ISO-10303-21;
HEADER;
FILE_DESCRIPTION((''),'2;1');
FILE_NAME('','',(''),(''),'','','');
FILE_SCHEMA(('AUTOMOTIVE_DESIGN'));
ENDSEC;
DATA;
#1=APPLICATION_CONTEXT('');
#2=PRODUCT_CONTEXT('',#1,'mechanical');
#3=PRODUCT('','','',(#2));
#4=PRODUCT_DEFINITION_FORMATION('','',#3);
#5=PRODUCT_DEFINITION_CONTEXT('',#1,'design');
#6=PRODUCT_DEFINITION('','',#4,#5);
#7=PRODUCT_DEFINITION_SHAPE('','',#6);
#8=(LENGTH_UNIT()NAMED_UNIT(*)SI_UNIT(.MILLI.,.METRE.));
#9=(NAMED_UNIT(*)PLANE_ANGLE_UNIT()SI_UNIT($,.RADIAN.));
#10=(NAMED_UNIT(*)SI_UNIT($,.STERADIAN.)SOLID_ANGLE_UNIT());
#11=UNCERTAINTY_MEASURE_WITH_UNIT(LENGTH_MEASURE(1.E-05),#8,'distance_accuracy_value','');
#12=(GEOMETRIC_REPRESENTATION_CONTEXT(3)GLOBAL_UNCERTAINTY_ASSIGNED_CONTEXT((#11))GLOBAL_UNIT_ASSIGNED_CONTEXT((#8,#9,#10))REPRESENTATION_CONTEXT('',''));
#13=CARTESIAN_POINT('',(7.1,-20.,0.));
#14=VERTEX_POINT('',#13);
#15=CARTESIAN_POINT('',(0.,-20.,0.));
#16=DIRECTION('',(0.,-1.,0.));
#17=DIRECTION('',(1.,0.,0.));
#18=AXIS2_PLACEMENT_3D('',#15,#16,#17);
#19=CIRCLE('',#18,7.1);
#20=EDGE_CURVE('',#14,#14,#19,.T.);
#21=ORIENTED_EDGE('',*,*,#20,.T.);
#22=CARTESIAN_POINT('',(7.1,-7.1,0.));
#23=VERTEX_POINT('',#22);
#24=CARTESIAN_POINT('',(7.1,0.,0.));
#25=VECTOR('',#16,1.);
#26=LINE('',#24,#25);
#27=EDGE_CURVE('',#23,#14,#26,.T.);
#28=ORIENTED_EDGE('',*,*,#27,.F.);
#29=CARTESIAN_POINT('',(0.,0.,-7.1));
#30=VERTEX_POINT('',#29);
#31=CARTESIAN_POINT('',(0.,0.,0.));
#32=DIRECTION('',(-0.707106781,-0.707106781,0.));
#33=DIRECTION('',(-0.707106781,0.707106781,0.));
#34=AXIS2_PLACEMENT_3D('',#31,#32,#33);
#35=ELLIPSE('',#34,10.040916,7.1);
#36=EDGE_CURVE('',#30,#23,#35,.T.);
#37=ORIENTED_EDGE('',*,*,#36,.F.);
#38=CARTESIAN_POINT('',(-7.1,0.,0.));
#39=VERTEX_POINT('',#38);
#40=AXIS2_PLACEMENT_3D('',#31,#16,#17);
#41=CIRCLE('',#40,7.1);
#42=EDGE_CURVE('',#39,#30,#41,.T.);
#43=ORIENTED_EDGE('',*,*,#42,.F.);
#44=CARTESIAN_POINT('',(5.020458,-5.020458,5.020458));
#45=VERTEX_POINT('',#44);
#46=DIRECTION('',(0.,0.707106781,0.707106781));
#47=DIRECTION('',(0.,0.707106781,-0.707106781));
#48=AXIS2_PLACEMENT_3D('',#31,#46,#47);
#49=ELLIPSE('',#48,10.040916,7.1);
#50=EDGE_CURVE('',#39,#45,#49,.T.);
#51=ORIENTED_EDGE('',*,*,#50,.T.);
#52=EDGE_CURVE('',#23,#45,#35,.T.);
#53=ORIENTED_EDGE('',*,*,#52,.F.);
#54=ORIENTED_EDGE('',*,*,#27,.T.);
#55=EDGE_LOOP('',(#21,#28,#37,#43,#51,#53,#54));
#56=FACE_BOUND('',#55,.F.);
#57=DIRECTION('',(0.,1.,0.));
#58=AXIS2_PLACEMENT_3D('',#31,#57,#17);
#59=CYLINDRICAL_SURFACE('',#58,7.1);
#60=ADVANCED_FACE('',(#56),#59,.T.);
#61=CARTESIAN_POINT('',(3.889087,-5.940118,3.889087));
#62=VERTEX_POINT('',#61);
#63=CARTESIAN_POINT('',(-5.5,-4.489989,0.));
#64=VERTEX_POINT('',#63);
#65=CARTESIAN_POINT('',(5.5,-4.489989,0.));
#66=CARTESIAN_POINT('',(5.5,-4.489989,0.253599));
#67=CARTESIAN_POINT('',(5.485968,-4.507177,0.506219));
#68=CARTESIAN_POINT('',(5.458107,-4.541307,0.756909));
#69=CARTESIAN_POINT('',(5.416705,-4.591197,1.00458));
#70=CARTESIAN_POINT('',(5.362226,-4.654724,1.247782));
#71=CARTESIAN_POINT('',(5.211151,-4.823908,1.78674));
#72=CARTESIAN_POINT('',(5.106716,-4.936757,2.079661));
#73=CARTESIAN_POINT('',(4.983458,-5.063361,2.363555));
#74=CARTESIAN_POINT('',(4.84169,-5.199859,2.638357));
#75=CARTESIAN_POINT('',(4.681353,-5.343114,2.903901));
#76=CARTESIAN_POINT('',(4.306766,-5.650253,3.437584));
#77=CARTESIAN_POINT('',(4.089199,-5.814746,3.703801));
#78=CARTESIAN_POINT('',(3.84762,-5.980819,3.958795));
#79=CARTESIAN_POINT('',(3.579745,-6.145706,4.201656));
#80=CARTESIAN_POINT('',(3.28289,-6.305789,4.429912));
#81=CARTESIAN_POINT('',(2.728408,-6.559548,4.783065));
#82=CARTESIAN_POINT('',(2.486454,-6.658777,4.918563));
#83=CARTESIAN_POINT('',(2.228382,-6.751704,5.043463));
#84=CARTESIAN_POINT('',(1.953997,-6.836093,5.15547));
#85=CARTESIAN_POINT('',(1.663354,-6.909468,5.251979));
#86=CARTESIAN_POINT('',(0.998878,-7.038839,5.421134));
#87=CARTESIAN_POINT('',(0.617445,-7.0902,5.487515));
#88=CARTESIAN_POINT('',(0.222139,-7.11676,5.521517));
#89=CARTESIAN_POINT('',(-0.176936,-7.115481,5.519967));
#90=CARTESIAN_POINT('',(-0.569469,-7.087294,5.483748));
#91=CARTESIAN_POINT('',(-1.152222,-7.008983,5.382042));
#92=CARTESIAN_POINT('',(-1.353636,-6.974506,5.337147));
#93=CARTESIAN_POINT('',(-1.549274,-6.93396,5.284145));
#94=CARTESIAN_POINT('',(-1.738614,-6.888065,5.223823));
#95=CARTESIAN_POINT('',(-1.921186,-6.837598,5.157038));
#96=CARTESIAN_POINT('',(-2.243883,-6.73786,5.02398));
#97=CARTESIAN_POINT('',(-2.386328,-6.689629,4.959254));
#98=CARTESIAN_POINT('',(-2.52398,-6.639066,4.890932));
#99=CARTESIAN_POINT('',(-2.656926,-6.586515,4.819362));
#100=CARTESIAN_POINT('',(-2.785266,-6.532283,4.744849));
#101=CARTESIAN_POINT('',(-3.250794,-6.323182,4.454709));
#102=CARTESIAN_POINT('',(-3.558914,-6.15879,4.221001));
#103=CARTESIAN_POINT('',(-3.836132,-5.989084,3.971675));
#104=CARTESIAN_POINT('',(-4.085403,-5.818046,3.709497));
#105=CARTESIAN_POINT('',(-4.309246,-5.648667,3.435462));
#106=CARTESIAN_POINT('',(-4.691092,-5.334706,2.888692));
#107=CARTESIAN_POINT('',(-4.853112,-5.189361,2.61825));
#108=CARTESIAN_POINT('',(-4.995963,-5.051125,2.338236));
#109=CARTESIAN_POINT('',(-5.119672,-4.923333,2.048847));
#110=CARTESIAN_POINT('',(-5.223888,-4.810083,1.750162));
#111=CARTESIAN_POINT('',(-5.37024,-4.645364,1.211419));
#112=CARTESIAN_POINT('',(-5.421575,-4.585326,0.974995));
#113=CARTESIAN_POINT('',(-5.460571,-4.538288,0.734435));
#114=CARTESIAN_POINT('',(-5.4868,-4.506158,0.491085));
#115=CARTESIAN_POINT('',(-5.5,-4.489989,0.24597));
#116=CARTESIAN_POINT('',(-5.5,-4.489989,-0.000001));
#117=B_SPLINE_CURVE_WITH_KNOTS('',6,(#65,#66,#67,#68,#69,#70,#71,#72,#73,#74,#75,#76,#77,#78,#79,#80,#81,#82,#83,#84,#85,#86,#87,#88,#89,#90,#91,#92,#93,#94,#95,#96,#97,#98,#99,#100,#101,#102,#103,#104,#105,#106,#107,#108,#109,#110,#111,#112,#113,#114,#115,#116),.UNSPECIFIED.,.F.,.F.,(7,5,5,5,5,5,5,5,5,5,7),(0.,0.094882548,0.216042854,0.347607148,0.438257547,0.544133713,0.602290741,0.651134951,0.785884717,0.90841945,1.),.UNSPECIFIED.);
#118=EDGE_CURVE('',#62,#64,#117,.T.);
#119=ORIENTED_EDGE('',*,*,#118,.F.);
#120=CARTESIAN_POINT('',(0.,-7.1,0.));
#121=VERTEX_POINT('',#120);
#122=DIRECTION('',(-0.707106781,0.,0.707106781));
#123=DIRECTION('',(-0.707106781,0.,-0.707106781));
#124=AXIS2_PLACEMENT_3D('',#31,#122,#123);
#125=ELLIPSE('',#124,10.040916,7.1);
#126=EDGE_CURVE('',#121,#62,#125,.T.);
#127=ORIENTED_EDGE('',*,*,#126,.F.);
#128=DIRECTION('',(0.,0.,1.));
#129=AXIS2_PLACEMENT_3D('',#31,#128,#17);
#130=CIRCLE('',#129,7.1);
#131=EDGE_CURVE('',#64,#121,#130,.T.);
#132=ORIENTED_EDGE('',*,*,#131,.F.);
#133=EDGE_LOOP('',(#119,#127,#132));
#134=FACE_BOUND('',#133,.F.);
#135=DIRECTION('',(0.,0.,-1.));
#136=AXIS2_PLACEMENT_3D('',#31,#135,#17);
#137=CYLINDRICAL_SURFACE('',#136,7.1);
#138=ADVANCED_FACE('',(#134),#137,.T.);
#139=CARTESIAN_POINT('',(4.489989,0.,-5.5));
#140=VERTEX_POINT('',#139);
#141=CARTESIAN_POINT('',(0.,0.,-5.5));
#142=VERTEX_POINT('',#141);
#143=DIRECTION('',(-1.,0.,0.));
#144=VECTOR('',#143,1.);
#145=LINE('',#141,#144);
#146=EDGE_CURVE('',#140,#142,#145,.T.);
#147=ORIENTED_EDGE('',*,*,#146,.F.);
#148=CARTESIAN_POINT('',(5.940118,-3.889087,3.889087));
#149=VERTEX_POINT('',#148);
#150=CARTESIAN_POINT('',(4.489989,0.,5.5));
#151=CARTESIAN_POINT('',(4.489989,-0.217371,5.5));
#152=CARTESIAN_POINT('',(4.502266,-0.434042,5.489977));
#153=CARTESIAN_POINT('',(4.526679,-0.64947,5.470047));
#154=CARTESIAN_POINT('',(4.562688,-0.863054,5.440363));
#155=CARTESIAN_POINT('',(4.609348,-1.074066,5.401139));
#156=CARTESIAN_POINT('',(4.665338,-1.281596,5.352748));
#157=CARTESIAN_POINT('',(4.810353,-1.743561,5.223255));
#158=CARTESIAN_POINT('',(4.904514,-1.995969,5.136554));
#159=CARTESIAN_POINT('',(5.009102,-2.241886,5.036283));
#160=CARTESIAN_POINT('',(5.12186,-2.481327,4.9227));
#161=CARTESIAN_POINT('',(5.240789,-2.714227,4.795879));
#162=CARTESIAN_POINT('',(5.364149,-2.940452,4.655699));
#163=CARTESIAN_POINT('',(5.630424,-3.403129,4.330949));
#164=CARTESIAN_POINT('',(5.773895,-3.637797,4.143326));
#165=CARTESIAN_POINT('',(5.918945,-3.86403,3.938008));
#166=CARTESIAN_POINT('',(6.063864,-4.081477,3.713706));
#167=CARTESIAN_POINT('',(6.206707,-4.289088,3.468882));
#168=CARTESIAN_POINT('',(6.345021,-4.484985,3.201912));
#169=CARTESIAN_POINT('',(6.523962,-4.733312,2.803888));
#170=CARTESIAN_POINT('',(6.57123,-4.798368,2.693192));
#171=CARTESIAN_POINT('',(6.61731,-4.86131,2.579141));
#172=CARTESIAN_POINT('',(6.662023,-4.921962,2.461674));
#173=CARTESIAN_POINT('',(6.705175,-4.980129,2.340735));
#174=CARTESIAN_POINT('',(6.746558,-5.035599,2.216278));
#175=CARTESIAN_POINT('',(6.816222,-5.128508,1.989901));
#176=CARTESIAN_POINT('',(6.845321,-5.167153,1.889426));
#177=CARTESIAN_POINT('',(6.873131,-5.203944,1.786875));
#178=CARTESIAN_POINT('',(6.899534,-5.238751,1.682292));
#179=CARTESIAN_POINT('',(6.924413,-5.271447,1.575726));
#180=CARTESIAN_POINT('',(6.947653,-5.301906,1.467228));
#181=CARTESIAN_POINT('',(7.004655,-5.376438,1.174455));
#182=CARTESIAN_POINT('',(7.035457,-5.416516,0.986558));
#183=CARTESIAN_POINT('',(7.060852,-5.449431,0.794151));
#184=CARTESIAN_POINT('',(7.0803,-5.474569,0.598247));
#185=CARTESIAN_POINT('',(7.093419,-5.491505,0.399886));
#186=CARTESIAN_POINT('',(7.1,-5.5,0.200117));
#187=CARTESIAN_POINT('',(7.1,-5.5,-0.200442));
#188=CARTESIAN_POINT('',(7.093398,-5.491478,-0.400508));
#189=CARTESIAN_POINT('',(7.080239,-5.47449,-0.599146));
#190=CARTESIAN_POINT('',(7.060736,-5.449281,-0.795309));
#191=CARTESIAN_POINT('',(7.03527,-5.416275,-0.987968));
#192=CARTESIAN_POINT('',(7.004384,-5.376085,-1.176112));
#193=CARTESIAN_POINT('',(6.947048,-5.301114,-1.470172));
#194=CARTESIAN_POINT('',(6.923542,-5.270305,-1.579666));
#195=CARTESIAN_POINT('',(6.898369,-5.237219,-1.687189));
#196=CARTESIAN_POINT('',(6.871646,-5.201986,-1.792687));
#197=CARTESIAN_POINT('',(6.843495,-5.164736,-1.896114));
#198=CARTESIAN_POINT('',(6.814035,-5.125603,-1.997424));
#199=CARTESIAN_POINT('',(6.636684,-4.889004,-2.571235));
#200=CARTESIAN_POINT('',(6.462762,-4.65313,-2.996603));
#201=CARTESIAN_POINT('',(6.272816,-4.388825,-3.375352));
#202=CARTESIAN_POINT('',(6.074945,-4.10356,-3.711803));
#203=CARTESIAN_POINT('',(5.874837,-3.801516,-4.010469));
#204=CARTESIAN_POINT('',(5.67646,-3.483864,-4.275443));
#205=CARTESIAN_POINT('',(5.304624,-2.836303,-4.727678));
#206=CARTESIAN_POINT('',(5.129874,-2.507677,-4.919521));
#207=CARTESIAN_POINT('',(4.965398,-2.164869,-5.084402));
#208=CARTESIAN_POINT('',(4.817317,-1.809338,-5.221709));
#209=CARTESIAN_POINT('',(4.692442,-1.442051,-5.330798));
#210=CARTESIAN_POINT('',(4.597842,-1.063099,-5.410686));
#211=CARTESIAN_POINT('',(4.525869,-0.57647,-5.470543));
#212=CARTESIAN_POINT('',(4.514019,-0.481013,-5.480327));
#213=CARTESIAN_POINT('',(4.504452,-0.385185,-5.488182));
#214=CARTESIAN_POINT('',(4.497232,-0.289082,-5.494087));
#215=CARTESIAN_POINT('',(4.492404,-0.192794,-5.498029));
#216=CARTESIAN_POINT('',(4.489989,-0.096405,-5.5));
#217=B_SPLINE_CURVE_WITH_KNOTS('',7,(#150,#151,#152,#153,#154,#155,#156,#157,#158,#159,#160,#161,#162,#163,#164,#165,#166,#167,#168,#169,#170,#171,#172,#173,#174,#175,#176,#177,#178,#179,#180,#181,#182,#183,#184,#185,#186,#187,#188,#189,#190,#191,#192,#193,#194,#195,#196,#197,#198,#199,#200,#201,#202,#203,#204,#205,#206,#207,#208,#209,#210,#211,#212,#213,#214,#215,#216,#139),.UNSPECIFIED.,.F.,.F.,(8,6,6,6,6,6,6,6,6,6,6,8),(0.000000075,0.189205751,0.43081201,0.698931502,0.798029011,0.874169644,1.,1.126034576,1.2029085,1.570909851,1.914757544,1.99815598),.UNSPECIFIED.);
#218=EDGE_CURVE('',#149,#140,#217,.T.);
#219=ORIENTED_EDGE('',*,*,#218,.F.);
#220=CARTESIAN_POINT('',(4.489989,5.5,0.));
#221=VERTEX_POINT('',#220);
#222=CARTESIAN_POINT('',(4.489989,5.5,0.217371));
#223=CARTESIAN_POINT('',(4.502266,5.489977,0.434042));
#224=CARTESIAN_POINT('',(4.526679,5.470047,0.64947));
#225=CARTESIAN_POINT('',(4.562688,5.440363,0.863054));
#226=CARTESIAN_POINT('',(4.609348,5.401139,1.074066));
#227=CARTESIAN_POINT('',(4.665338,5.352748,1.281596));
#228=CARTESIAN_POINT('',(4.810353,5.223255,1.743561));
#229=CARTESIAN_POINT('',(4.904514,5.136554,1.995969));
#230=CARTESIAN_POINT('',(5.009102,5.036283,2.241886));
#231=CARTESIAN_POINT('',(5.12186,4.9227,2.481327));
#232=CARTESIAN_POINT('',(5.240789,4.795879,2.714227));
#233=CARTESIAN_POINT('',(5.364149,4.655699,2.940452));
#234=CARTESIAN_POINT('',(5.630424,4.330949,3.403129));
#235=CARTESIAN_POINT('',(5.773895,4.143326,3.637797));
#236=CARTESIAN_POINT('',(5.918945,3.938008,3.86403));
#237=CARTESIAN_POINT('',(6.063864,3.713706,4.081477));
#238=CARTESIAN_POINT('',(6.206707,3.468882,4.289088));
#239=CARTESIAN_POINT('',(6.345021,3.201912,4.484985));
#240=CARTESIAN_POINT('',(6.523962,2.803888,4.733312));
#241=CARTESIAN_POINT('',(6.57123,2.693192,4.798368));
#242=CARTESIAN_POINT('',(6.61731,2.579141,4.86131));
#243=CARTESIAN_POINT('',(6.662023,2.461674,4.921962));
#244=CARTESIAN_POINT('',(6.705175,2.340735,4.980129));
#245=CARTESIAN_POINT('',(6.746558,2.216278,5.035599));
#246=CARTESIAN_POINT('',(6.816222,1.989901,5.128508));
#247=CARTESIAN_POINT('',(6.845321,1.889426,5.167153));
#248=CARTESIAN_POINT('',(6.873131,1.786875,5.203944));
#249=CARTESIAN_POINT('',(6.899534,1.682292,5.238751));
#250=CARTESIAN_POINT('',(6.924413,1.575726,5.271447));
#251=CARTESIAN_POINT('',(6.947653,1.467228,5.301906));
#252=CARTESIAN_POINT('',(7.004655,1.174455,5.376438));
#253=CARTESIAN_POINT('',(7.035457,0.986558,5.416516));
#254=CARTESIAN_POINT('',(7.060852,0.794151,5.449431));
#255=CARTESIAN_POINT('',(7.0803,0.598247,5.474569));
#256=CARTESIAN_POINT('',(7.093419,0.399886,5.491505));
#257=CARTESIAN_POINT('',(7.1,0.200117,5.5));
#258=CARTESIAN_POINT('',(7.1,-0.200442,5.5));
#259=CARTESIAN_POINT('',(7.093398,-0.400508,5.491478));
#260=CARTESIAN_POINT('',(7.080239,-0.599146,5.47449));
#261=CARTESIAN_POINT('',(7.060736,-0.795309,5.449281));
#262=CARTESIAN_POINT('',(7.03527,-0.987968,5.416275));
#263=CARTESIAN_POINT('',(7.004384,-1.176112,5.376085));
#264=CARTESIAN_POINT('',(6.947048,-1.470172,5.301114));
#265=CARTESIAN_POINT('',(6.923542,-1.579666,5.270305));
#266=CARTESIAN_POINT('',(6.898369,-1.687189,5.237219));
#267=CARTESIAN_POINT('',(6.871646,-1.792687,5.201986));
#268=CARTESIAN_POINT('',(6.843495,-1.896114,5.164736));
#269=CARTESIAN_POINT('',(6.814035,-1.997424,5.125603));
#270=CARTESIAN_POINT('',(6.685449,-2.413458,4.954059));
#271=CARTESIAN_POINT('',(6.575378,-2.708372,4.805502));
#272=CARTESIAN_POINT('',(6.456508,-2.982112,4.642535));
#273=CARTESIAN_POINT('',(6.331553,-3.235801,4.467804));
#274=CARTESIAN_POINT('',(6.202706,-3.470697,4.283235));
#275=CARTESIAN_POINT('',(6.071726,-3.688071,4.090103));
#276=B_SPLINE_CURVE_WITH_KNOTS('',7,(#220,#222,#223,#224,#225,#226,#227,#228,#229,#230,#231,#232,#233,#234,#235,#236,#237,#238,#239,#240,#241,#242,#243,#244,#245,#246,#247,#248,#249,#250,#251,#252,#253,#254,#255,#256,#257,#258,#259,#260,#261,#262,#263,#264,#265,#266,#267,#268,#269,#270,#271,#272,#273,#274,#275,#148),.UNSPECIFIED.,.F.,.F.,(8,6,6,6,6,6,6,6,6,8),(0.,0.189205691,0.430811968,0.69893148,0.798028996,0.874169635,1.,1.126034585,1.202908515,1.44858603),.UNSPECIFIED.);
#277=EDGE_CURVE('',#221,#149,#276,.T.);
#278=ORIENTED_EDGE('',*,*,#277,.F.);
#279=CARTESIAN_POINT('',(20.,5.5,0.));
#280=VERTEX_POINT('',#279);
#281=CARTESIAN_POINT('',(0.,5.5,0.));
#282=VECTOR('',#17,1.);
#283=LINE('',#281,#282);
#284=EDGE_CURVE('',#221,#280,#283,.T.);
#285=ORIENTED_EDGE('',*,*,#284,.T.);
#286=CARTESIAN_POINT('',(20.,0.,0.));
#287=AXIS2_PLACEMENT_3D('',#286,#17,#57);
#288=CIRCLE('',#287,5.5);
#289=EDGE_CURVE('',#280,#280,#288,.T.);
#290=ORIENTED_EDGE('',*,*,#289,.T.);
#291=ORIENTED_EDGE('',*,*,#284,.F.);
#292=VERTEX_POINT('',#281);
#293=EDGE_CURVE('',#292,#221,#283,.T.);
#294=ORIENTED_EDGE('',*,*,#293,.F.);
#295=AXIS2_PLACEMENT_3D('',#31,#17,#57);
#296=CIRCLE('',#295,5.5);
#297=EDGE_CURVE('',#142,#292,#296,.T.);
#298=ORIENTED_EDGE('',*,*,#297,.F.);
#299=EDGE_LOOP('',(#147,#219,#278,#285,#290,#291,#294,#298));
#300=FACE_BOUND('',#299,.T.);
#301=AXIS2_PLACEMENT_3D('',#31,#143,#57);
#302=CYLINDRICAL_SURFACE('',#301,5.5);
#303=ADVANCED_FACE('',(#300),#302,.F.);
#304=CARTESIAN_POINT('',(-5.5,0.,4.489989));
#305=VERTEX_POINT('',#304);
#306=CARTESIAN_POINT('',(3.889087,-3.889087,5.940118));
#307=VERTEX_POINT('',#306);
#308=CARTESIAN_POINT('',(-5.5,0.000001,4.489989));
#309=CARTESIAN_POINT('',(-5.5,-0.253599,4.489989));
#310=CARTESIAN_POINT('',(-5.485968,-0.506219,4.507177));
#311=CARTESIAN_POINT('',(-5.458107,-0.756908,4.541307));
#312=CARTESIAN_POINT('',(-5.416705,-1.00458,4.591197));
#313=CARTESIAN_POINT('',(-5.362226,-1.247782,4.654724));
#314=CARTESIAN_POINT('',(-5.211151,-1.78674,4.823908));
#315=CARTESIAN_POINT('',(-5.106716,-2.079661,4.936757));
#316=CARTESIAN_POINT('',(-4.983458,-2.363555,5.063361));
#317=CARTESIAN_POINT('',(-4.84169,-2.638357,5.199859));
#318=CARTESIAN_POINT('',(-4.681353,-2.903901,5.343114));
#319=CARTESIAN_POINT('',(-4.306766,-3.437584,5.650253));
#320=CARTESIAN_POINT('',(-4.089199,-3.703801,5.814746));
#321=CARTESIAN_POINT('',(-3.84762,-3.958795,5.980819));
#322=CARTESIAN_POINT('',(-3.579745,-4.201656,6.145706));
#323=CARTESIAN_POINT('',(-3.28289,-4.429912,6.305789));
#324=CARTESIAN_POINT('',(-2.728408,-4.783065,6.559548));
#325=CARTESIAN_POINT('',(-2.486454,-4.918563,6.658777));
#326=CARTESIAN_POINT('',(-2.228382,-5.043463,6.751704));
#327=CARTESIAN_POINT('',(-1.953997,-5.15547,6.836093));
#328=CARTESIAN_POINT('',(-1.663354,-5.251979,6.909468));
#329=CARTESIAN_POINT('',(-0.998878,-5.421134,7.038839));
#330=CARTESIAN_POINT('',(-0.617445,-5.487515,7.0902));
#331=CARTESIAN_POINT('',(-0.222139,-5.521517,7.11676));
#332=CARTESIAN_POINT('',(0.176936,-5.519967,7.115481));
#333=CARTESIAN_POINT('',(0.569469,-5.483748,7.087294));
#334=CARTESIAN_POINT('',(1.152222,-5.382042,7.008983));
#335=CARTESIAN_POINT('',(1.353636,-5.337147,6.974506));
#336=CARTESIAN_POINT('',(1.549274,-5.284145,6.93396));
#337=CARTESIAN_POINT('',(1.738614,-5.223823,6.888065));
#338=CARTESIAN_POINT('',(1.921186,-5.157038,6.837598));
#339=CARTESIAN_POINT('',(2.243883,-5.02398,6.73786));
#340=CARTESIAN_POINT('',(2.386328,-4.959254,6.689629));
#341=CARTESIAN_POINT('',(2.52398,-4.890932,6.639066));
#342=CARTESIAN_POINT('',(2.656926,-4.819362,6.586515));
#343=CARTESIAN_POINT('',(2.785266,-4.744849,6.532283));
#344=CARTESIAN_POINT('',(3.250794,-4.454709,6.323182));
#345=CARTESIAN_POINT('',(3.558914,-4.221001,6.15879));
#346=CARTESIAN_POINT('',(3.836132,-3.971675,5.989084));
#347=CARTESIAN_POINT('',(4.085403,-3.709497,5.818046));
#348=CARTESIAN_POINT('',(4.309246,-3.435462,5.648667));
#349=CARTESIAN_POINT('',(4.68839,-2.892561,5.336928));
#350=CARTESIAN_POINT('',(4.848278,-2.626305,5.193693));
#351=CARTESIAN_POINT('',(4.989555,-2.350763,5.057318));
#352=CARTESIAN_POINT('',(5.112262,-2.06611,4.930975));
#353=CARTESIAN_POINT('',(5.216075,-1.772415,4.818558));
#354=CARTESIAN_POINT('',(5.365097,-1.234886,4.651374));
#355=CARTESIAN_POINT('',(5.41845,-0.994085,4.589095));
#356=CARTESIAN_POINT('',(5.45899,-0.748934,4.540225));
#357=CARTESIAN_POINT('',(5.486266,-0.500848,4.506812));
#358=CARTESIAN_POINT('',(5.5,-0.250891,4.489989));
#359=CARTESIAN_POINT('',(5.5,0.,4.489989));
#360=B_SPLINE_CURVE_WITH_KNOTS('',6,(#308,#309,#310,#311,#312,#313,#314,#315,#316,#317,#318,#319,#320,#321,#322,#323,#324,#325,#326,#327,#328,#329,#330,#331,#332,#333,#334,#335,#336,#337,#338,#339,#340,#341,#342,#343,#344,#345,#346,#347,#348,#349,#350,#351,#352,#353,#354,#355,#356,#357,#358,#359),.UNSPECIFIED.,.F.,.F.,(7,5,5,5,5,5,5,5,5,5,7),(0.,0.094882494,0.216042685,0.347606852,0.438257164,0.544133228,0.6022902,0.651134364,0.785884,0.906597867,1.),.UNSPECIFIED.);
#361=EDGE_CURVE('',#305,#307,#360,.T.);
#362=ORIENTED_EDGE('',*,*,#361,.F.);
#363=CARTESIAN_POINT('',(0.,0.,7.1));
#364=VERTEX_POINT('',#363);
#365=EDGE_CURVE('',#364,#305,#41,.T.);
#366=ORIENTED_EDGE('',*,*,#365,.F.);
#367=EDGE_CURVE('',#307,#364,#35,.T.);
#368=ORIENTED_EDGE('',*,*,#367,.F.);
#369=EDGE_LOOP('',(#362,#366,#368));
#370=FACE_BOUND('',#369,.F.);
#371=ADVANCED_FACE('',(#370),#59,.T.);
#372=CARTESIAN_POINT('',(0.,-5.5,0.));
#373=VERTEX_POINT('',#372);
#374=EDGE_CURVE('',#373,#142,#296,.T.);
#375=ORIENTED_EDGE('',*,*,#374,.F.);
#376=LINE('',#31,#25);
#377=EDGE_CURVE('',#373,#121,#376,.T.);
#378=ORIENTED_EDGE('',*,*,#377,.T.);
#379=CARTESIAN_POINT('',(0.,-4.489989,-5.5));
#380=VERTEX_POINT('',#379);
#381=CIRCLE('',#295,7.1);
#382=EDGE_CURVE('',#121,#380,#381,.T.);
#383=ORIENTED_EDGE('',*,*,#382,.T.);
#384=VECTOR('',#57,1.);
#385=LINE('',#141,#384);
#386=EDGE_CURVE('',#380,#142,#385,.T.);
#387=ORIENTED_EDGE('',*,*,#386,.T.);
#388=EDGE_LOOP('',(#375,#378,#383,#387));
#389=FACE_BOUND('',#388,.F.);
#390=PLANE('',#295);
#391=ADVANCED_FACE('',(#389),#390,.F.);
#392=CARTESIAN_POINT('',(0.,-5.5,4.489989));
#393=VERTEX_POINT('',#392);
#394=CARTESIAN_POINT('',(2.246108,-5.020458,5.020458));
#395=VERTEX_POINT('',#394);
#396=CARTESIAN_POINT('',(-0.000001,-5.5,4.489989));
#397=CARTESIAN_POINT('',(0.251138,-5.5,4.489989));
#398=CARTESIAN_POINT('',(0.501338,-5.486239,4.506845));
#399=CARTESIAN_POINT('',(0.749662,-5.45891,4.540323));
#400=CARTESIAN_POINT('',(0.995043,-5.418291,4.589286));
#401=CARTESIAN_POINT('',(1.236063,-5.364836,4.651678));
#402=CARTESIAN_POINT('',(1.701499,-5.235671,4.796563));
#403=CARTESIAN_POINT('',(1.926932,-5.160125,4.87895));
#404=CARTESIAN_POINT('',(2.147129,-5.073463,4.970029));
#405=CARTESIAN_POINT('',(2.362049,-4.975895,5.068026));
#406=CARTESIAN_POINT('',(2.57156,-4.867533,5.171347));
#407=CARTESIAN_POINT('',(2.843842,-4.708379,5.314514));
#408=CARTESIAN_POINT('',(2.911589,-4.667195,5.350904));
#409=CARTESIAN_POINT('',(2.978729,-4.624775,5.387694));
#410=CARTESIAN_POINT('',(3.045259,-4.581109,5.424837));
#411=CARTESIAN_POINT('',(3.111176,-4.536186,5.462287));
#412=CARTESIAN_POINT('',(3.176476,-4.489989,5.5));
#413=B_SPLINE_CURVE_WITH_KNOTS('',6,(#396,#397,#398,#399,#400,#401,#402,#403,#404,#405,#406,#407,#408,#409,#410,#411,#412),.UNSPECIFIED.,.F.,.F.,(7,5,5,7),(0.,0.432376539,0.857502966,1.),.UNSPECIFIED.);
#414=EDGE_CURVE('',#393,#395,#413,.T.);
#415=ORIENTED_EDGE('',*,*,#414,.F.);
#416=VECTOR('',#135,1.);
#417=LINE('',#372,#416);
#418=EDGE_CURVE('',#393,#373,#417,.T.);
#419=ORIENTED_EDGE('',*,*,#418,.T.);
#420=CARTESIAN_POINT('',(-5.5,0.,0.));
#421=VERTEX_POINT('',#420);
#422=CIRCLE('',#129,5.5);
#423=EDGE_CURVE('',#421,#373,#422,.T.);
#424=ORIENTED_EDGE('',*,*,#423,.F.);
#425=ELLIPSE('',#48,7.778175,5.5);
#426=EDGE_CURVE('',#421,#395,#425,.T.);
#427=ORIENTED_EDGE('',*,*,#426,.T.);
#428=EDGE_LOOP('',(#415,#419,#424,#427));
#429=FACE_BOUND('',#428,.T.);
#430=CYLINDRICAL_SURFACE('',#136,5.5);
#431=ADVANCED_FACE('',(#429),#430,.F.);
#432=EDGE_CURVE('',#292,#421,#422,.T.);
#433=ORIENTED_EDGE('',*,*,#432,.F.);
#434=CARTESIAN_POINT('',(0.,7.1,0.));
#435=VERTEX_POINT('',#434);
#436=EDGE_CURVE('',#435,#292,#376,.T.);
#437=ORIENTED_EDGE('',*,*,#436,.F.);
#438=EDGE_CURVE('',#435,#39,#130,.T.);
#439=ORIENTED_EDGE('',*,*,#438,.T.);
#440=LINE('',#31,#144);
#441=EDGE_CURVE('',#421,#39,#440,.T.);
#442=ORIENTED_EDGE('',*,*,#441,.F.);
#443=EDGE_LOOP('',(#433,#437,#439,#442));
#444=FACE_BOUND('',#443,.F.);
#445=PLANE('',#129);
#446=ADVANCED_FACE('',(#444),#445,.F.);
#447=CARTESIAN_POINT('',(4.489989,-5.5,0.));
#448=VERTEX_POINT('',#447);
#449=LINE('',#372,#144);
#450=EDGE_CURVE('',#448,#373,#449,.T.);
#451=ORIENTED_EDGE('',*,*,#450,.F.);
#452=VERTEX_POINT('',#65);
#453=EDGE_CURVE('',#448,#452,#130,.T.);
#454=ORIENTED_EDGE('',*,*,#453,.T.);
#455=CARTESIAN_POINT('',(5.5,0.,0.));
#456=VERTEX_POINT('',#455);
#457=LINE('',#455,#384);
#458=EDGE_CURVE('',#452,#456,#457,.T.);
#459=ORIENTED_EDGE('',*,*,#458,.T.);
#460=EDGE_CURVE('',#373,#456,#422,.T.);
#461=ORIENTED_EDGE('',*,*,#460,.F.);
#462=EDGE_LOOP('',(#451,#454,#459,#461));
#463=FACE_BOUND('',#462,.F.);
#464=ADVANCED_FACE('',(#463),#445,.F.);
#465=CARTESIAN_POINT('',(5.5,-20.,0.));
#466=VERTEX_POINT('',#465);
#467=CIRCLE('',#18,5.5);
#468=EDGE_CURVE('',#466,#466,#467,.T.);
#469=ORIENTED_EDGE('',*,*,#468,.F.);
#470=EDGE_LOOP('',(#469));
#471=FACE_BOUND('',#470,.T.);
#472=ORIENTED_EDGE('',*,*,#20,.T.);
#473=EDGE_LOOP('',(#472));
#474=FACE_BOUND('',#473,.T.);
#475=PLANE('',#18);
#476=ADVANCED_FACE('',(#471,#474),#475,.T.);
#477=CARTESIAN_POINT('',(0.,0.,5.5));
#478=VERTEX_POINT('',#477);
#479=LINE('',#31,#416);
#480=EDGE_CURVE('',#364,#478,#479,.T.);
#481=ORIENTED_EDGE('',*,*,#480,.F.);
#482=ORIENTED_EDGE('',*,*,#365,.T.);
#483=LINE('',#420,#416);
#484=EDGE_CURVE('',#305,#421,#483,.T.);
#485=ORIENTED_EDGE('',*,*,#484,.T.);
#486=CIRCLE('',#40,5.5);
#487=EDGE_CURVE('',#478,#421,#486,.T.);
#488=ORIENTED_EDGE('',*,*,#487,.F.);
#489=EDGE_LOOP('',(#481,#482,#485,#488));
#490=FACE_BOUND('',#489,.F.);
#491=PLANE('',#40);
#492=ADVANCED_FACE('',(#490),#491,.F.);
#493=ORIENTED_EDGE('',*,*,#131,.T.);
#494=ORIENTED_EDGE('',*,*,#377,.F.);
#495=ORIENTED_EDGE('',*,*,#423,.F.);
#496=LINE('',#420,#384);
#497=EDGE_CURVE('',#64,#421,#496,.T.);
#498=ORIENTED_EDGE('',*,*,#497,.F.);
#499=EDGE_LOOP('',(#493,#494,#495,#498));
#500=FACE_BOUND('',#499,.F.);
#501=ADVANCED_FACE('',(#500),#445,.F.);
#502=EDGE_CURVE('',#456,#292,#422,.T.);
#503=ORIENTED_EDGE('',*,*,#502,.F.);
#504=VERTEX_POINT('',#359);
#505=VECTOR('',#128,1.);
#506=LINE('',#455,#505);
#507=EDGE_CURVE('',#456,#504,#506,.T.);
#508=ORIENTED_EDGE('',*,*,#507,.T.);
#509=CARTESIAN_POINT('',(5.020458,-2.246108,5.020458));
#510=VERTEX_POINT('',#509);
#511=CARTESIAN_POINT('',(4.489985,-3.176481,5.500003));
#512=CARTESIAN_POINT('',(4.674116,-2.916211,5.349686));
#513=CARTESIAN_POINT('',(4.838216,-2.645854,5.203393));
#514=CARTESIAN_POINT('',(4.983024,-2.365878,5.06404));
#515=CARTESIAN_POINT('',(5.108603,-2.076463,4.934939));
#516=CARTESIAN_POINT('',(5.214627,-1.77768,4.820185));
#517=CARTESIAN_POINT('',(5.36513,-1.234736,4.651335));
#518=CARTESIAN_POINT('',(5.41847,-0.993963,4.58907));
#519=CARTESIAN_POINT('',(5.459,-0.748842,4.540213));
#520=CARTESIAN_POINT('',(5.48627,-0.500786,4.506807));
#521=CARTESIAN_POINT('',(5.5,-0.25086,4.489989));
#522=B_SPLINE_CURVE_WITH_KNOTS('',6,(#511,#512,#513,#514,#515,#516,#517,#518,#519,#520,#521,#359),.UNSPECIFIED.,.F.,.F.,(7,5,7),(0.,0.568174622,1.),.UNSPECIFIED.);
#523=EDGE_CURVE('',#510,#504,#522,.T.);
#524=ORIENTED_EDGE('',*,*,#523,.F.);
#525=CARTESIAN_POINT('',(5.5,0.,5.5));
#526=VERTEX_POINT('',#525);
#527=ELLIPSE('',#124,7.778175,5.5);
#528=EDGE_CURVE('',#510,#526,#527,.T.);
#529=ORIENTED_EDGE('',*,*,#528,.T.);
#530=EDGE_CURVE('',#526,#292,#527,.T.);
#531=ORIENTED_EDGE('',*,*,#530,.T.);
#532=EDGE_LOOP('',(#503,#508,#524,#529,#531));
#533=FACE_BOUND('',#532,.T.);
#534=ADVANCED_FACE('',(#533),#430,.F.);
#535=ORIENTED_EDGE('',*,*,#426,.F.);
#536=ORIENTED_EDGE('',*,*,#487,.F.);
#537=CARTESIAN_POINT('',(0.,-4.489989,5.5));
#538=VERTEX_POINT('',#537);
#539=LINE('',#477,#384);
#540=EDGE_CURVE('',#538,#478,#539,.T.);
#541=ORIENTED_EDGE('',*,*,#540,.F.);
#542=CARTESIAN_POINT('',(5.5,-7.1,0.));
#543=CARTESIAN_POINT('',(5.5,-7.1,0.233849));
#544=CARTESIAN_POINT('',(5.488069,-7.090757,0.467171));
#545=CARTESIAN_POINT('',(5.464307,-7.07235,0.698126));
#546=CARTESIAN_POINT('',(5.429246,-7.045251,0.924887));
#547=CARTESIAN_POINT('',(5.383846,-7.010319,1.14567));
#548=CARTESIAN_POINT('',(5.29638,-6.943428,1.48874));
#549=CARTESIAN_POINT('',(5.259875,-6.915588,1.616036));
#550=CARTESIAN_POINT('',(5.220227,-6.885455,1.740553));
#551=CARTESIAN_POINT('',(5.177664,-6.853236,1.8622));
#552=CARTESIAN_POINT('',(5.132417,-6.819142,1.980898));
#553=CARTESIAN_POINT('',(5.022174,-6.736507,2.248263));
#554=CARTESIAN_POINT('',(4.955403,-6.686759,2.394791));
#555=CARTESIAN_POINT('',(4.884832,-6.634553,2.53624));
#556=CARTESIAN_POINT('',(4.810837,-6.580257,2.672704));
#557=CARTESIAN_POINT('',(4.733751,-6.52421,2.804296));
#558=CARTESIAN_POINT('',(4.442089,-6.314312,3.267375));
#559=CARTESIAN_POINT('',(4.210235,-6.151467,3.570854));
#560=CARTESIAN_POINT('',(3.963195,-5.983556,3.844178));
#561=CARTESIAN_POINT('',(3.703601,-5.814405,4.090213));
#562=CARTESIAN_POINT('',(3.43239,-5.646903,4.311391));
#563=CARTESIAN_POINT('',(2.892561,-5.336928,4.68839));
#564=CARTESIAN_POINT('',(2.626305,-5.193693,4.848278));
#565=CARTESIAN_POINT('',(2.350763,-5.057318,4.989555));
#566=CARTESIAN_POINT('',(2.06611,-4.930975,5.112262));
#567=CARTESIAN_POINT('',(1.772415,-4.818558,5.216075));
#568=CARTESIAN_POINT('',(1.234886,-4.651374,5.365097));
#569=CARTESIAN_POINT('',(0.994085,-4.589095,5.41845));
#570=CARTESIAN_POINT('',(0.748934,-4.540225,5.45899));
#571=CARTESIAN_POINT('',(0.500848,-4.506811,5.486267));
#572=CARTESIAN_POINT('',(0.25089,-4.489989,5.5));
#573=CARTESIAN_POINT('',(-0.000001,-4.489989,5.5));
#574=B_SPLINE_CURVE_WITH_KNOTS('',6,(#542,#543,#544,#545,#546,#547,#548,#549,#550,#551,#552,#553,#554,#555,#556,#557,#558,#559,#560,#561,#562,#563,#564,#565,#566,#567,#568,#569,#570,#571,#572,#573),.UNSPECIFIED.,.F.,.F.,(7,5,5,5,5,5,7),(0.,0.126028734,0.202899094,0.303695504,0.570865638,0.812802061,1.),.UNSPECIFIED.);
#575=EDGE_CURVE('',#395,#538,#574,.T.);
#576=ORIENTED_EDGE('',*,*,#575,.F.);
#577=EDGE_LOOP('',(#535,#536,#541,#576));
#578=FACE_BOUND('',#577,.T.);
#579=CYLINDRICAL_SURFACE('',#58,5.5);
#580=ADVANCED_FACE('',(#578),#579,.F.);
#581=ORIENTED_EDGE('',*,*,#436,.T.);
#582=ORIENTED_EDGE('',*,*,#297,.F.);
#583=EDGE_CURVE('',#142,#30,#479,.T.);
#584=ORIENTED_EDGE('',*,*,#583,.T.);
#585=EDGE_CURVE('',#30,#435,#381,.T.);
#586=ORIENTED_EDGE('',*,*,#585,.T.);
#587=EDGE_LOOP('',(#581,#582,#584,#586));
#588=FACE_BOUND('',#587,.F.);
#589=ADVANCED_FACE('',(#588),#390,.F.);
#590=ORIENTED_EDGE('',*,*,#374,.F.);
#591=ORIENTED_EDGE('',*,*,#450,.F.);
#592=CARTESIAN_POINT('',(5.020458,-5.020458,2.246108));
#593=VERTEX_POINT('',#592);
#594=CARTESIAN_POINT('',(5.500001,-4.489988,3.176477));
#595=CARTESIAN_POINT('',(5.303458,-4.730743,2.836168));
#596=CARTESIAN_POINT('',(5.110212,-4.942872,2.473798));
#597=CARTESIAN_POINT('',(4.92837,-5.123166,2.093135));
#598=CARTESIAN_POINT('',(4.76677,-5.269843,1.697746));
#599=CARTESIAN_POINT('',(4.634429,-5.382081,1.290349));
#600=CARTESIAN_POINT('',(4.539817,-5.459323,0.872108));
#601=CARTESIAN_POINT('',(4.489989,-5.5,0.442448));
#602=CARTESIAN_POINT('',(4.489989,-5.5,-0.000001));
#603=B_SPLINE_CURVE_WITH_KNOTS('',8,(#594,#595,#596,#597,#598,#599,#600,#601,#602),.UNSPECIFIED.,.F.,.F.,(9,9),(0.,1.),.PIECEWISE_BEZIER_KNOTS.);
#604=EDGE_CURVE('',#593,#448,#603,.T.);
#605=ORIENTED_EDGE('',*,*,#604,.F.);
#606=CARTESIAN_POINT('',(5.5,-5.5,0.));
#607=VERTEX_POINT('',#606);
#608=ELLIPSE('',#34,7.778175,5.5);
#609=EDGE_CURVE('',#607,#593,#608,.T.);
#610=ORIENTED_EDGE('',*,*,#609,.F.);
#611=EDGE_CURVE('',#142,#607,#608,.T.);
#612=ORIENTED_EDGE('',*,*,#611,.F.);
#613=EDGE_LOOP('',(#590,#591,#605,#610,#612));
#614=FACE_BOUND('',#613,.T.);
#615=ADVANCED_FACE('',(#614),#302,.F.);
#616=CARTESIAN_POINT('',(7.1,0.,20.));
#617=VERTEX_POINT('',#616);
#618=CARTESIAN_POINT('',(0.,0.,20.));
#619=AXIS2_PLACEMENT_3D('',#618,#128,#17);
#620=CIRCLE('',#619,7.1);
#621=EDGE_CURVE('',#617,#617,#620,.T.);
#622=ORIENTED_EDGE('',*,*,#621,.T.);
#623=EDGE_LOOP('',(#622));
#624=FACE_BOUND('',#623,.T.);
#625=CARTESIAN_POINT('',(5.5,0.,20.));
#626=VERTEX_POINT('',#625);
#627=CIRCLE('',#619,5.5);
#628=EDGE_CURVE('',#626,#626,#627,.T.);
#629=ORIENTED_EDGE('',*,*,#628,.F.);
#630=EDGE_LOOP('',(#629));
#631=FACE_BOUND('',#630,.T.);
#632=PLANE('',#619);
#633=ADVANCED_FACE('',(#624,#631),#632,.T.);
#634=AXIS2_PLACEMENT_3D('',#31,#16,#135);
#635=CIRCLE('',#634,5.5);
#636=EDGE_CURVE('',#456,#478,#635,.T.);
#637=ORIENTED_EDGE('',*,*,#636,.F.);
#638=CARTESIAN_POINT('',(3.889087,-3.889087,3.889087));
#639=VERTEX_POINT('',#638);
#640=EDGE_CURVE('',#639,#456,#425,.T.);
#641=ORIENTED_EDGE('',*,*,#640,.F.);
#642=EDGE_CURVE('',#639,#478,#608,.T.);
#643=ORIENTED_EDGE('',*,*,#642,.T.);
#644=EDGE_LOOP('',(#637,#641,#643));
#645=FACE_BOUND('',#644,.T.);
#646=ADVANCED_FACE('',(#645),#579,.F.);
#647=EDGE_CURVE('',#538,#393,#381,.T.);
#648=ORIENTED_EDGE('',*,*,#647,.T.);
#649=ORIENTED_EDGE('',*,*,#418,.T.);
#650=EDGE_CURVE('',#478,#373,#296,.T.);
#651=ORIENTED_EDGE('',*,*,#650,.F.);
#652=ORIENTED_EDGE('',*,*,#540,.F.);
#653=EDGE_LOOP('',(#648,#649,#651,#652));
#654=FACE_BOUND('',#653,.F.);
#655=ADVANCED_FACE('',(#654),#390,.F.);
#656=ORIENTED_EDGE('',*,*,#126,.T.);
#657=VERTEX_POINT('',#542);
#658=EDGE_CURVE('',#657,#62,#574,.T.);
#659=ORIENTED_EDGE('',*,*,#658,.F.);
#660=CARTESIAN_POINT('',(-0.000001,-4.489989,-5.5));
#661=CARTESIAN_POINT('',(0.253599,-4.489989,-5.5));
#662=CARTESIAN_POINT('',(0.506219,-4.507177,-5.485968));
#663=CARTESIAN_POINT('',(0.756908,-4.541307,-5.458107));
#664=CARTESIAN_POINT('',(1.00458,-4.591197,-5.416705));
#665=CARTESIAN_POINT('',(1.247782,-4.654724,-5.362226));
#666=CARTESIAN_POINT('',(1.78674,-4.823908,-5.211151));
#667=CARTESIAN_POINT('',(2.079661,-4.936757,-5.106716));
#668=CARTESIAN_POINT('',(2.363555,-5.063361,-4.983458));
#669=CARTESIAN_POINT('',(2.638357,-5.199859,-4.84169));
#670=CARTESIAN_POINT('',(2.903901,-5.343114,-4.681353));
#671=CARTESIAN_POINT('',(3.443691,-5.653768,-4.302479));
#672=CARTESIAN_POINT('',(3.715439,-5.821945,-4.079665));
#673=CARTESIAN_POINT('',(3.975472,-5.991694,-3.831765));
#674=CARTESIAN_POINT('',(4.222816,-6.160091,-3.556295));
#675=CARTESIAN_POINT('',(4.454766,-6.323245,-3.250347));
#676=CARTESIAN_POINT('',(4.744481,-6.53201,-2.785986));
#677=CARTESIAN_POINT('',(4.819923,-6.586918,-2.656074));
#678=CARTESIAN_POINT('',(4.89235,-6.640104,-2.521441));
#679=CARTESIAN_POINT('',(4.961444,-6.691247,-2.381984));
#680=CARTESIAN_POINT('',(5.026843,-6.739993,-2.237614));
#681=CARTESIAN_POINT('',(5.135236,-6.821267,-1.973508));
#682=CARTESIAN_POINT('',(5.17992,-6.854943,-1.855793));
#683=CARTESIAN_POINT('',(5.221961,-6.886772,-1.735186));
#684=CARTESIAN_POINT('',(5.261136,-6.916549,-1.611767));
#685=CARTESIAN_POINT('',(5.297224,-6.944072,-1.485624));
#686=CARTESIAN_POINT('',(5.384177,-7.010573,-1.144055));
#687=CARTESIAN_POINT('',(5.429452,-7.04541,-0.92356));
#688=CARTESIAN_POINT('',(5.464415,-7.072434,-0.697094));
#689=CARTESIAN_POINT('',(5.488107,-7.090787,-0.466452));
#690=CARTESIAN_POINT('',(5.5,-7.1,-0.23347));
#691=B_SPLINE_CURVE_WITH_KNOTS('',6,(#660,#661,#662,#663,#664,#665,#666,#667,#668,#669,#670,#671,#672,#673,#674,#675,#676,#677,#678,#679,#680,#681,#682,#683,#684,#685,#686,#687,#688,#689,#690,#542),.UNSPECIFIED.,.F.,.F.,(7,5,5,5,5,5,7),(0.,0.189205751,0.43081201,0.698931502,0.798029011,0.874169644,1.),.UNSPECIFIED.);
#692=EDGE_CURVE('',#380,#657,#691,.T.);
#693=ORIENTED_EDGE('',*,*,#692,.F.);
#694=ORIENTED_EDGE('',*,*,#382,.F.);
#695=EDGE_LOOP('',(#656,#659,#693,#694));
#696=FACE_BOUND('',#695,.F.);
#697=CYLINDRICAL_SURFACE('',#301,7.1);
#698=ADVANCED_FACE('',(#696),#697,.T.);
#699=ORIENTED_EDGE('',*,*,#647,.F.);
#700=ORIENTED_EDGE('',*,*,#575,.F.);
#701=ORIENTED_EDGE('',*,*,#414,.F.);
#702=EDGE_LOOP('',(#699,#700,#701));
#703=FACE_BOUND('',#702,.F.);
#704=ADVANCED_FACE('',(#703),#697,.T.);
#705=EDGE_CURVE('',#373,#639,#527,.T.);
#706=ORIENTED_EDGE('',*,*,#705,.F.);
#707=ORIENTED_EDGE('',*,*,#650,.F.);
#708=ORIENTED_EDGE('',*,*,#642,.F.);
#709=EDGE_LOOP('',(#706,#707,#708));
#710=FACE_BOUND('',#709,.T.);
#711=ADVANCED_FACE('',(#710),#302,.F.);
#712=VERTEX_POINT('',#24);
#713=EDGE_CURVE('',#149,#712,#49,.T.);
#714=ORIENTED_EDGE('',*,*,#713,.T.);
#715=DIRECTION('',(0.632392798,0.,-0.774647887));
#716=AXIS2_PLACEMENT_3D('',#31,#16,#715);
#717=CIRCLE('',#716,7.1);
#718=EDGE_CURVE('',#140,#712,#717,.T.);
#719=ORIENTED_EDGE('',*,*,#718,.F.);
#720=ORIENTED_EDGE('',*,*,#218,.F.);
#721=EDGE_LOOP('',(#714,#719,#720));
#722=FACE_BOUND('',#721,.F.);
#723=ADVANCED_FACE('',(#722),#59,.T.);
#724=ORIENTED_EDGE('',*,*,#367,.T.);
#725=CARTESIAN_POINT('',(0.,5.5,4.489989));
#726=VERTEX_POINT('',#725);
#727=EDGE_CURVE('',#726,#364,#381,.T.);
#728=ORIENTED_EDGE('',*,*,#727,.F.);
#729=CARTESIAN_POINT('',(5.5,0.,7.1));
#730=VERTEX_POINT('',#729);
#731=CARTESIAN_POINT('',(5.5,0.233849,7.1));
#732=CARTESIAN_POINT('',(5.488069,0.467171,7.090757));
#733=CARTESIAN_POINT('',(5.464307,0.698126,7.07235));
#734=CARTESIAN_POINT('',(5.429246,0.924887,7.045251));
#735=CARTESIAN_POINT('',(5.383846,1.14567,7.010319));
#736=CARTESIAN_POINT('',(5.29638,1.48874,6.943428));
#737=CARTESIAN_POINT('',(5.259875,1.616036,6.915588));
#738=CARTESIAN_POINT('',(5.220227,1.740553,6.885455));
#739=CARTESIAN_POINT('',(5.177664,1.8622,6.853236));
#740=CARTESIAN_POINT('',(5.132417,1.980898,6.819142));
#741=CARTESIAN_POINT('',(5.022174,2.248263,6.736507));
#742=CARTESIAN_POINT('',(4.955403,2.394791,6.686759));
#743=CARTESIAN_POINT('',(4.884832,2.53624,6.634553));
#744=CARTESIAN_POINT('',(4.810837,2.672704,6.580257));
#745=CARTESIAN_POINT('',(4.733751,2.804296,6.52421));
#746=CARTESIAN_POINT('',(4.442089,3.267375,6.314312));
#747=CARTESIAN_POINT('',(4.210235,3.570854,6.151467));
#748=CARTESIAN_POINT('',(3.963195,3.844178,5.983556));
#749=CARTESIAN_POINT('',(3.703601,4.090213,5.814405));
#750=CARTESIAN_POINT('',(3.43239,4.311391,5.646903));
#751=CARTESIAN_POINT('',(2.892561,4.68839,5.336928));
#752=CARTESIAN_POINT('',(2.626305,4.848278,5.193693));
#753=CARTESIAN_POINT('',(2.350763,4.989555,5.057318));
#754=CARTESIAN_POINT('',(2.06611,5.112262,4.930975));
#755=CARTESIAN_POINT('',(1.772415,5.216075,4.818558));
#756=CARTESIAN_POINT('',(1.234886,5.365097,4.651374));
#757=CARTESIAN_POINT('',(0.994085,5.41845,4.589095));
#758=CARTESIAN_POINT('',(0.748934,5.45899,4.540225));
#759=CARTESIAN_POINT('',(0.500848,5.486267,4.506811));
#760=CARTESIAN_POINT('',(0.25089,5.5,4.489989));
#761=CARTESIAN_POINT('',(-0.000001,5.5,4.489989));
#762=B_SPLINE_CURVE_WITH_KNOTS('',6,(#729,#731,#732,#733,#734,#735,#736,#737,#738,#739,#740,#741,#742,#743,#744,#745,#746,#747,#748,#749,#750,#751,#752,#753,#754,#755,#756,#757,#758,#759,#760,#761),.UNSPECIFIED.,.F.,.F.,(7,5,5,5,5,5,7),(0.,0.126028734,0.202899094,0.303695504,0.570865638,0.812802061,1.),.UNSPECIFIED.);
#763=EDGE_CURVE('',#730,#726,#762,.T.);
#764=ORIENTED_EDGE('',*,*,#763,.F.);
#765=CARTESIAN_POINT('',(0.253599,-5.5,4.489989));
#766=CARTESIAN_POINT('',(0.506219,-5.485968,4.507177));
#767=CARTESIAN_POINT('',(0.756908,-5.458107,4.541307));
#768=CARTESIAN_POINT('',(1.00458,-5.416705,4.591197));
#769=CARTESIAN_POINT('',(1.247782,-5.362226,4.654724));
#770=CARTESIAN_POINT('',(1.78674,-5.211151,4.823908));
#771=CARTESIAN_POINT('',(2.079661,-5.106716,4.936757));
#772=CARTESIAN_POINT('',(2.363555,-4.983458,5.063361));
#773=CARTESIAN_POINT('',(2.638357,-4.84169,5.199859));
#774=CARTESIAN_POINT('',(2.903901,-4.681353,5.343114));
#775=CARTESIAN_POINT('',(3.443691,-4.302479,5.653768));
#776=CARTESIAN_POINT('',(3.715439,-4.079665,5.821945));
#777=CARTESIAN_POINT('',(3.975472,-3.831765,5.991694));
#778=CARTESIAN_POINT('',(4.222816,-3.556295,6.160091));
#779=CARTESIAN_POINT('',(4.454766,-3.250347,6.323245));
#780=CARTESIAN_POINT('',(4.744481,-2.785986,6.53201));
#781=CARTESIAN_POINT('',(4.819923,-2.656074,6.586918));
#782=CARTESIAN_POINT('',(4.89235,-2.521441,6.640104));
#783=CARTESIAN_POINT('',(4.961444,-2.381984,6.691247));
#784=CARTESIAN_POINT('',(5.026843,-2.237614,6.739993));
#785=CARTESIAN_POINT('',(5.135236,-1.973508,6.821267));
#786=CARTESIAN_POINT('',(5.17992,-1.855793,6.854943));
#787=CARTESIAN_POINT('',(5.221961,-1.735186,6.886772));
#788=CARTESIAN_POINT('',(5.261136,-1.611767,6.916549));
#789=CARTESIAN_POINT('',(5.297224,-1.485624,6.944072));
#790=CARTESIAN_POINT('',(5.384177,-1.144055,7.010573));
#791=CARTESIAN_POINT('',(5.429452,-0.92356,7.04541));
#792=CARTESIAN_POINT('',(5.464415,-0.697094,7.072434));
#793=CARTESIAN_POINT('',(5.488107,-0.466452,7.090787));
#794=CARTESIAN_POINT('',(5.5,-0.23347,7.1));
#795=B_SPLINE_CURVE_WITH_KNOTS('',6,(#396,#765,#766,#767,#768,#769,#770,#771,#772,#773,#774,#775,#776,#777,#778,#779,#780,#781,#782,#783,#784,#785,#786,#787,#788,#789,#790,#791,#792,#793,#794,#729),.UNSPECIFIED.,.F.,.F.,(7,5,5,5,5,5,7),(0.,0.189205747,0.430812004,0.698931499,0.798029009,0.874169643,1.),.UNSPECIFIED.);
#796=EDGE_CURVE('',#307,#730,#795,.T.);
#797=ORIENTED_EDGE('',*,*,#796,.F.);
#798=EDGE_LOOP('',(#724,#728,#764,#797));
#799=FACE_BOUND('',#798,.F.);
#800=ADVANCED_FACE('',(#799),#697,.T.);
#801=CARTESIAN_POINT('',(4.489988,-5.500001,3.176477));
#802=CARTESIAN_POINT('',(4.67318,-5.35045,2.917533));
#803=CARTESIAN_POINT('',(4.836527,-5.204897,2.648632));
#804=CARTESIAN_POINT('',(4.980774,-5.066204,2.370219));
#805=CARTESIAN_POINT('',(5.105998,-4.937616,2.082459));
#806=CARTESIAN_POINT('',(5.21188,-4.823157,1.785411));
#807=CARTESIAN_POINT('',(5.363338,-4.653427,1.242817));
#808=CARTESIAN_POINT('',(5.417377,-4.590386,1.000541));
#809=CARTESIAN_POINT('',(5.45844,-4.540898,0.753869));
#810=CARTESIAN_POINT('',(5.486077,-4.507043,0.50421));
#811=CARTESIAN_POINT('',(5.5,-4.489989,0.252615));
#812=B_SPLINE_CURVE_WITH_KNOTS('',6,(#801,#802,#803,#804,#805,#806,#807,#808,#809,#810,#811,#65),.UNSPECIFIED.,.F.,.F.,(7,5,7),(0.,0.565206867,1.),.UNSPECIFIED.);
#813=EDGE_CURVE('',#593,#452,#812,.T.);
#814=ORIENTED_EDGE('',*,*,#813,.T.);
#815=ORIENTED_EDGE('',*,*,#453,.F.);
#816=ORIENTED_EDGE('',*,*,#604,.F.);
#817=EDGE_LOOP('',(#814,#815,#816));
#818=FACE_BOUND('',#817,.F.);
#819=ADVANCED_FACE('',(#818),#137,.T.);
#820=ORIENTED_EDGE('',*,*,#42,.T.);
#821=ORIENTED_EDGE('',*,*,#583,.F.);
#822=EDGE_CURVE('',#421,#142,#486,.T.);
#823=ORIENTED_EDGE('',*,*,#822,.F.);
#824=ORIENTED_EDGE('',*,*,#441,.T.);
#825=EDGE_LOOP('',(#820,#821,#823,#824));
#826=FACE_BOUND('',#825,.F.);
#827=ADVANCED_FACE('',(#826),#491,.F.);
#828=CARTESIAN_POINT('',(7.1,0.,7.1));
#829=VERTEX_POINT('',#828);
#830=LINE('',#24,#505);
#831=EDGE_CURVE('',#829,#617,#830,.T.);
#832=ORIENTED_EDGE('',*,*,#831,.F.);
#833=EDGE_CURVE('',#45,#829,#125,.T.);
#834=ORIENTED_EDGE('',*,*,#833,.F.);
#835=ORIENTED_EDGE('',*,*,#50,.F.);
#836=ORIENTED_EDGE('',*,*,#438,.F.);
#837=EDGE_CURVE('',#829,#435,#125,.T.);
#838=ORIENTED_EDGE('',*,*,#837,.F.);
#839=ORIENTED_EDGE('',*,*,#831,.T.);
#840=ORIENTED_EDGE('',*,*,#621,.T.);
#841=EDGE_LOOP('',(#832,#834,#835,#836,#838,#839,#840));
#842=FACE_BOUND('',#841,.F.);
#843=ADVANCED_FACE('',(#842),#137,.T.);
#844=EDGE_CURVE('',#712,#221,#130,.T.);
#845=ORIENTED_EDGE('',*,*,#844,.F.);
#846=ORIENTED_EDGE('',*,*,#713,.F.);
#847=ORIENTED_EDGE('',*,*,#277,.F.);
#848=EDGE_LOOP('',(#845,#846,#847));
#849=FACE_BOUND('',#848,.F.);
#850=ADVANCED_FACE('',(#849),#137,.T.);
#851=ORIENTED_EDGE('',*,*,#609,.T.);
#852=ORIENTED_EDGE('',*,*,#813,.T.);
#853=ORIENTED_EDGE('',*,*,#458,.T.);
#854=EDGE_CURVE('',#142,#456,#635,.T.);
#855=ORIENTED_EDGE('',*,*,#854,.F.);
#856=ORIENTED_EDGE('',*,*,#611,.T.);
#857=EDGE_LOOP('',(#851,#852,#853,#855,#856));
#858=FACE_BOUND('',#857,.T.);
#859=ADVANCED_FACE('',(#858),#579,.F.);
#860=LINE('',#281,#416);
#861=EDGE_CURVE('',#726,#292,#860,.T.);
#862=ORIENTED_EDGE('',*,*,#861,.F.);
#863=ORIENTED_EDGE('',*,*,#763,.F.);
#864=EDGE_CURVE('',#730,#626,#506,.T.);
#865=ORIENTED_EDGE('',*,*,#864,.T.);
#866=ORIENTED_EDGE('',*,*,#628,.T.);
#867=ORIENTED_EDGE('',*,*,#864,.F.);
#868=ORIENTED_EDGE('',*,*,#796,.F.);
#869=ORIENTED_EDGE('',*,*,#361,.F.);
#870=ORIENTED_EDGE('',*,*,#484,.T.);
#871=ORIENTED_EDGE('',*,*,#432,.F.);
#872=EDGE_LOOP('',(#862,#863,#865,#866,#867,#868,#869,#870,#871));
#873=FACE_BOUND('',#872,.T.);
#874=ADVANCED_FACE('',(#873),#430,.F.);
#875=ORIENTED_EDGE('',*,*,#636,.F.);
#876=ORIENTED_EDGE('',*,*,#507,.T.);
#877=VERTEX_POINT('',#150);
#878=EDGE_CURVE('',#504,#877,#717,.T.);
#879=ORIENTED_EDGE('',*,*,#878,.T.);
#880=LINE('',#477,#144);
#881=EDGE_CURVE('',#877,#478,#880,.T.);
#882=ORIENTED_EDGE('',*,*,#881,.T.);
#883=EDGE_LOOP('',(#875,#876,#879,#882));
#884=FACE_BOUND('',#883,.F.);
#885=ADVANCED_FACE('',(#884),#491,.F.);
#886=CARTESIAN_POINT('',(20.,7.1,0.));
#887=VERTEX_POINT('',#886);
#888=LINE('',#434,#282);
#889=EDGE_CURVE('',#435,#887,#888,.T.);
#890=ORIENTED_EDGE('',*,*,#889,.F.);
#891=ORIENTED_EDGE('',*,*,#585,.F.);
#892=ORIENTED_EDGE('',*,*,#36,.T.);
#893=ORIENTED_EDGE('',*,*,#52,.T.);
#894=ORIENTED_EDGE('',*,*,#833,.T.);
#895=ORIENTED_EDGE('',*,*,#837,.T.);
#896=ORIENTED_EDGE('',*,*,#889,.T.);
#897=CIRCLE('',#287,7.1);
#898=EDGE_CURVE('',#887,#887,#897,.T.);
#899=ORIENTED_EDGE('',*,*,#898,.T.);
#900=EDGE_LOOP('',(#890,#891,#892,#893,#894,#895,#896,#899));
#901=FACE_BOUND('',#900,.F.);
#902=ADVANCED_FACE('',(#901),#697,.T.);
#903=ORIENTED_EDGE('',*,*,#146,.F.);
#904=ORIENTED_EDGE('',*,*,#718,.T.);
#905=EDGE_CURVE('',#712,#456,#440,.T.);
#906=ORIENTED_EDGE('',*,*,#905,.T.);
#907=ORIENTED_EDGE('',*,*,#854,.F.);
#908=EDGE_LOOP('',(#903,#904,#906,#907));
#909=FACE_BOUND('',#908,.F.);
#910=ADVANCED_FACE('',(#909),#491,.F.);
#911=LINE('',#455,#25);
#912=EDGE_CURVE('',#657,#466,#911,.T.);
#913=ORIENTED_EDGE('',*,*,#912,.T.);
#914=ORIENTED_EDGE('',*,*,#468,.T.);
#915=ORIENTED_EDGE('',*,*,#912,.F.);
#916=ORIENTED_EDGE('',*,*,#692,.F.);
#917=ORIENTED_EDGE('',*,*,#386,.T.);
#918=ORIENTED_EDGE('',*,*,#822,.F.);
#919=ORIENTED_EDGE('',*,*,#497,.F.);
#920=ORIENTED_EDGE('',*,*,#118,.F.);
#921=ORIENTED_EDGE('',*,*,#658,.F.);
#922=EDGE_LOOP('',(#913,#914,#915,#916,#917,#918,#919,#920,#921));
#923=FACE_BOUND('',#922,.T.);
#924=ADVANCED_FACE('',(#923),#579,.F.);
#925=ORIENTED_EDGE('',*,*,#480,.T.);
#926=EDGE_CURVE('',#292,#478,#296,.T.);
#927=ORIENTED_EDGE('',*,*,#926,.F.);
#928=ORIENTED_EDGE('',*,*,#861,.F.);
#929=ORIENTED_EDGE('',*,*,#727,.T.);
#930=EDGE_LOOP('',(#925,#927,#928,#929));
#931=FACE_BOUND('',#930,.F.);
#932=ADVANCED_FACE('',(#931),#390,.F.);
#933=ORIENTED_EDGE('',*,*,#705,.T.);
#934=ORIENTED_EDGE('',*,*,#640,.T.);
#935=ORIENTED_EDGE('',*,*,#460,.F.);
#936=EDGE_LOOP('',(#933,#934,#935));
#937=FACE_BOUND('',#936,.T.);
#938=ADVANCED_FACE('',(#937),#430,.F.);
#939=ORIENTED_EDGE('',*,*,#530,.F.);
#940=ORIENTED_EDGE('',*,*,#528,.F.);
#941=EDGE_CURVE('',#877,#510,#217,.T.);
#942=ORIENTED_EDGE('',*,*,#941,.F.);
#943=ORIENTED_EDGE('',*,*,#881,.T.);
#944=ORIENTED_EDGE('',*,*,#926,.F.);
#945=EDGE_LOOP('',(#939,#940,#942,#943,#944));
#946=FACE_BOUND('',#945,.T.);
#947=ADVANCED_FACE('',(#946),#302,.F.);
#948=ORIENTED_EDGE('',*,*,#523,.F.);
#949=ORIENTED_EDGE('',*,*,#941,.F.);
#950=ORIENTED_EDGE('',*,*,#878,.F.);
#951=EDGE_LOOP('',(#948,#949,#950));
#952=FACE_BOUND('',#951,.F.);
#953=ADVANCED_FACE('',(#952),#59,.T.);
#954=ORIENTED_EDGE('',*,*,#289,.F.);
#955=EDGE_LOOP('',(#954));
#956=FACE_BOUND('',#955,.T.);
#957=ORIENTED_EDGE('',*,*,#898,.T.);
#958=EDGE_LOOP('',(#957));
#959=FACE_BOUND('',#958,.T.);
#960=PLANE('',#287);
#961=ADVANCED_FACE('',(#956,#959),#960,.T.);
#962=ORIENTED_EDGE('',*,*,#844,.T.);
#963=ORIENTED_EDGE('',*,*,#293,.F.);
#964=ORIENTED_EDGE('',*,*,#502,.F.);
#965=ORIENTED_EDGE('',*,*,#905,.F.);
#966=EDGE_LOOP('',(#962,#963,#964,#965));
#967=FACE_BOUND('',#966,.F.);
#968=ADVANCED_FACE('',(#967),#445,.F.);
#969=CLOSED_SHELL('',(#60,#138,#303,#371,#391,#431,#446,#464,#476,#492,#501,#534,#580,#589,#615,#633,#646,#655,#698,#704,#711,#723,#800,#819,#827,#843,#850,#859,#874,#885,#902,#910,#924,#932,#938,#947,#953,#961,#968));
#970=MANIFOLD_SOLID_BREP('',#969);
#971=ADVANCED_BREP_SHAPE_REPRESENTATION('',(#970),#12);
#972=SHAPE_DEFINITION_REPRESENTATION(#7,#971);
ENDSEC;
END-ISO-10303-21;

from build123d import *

# Parameters (mm, degrees)
F2_R     = 7.1
F2_R_2   = 5.5
F3_DEPTH = 20
F1_R     = 7.1
F1_R_2   = 5.5
F4_DEPTH = 20
F0_R     = 7.1
F0_R_2   = 5.5
F5_DEPTH = 20


with BuildPart() as f3:
    # F2 (on Right) → F3 (new body)
    with BuildSketch(Plane.YZ):
        Circle(F2_R)
        Circle(F2_R_2, mode=Mode.SUBTRACT)
    extrude(amount=F3_DEPTH)

    # F1 (on Front) → F4 (join)
    with BuildSketch(Plane.XZ):
        Circle(F1_R)
        Circle(F1_R_2, mode=Mode.SUBTRACT)
    extrude(amount=F4_DEPTH)

    # F0 (on Top) → F5 (join)
    with BuildSketch(Plane.XY):
        Circle(F0_R)
        Circle(F0_R_2, mode=Mode.SUBTRACT)
    extrude(amount=F5_DEPTH)


solid = f3.part
